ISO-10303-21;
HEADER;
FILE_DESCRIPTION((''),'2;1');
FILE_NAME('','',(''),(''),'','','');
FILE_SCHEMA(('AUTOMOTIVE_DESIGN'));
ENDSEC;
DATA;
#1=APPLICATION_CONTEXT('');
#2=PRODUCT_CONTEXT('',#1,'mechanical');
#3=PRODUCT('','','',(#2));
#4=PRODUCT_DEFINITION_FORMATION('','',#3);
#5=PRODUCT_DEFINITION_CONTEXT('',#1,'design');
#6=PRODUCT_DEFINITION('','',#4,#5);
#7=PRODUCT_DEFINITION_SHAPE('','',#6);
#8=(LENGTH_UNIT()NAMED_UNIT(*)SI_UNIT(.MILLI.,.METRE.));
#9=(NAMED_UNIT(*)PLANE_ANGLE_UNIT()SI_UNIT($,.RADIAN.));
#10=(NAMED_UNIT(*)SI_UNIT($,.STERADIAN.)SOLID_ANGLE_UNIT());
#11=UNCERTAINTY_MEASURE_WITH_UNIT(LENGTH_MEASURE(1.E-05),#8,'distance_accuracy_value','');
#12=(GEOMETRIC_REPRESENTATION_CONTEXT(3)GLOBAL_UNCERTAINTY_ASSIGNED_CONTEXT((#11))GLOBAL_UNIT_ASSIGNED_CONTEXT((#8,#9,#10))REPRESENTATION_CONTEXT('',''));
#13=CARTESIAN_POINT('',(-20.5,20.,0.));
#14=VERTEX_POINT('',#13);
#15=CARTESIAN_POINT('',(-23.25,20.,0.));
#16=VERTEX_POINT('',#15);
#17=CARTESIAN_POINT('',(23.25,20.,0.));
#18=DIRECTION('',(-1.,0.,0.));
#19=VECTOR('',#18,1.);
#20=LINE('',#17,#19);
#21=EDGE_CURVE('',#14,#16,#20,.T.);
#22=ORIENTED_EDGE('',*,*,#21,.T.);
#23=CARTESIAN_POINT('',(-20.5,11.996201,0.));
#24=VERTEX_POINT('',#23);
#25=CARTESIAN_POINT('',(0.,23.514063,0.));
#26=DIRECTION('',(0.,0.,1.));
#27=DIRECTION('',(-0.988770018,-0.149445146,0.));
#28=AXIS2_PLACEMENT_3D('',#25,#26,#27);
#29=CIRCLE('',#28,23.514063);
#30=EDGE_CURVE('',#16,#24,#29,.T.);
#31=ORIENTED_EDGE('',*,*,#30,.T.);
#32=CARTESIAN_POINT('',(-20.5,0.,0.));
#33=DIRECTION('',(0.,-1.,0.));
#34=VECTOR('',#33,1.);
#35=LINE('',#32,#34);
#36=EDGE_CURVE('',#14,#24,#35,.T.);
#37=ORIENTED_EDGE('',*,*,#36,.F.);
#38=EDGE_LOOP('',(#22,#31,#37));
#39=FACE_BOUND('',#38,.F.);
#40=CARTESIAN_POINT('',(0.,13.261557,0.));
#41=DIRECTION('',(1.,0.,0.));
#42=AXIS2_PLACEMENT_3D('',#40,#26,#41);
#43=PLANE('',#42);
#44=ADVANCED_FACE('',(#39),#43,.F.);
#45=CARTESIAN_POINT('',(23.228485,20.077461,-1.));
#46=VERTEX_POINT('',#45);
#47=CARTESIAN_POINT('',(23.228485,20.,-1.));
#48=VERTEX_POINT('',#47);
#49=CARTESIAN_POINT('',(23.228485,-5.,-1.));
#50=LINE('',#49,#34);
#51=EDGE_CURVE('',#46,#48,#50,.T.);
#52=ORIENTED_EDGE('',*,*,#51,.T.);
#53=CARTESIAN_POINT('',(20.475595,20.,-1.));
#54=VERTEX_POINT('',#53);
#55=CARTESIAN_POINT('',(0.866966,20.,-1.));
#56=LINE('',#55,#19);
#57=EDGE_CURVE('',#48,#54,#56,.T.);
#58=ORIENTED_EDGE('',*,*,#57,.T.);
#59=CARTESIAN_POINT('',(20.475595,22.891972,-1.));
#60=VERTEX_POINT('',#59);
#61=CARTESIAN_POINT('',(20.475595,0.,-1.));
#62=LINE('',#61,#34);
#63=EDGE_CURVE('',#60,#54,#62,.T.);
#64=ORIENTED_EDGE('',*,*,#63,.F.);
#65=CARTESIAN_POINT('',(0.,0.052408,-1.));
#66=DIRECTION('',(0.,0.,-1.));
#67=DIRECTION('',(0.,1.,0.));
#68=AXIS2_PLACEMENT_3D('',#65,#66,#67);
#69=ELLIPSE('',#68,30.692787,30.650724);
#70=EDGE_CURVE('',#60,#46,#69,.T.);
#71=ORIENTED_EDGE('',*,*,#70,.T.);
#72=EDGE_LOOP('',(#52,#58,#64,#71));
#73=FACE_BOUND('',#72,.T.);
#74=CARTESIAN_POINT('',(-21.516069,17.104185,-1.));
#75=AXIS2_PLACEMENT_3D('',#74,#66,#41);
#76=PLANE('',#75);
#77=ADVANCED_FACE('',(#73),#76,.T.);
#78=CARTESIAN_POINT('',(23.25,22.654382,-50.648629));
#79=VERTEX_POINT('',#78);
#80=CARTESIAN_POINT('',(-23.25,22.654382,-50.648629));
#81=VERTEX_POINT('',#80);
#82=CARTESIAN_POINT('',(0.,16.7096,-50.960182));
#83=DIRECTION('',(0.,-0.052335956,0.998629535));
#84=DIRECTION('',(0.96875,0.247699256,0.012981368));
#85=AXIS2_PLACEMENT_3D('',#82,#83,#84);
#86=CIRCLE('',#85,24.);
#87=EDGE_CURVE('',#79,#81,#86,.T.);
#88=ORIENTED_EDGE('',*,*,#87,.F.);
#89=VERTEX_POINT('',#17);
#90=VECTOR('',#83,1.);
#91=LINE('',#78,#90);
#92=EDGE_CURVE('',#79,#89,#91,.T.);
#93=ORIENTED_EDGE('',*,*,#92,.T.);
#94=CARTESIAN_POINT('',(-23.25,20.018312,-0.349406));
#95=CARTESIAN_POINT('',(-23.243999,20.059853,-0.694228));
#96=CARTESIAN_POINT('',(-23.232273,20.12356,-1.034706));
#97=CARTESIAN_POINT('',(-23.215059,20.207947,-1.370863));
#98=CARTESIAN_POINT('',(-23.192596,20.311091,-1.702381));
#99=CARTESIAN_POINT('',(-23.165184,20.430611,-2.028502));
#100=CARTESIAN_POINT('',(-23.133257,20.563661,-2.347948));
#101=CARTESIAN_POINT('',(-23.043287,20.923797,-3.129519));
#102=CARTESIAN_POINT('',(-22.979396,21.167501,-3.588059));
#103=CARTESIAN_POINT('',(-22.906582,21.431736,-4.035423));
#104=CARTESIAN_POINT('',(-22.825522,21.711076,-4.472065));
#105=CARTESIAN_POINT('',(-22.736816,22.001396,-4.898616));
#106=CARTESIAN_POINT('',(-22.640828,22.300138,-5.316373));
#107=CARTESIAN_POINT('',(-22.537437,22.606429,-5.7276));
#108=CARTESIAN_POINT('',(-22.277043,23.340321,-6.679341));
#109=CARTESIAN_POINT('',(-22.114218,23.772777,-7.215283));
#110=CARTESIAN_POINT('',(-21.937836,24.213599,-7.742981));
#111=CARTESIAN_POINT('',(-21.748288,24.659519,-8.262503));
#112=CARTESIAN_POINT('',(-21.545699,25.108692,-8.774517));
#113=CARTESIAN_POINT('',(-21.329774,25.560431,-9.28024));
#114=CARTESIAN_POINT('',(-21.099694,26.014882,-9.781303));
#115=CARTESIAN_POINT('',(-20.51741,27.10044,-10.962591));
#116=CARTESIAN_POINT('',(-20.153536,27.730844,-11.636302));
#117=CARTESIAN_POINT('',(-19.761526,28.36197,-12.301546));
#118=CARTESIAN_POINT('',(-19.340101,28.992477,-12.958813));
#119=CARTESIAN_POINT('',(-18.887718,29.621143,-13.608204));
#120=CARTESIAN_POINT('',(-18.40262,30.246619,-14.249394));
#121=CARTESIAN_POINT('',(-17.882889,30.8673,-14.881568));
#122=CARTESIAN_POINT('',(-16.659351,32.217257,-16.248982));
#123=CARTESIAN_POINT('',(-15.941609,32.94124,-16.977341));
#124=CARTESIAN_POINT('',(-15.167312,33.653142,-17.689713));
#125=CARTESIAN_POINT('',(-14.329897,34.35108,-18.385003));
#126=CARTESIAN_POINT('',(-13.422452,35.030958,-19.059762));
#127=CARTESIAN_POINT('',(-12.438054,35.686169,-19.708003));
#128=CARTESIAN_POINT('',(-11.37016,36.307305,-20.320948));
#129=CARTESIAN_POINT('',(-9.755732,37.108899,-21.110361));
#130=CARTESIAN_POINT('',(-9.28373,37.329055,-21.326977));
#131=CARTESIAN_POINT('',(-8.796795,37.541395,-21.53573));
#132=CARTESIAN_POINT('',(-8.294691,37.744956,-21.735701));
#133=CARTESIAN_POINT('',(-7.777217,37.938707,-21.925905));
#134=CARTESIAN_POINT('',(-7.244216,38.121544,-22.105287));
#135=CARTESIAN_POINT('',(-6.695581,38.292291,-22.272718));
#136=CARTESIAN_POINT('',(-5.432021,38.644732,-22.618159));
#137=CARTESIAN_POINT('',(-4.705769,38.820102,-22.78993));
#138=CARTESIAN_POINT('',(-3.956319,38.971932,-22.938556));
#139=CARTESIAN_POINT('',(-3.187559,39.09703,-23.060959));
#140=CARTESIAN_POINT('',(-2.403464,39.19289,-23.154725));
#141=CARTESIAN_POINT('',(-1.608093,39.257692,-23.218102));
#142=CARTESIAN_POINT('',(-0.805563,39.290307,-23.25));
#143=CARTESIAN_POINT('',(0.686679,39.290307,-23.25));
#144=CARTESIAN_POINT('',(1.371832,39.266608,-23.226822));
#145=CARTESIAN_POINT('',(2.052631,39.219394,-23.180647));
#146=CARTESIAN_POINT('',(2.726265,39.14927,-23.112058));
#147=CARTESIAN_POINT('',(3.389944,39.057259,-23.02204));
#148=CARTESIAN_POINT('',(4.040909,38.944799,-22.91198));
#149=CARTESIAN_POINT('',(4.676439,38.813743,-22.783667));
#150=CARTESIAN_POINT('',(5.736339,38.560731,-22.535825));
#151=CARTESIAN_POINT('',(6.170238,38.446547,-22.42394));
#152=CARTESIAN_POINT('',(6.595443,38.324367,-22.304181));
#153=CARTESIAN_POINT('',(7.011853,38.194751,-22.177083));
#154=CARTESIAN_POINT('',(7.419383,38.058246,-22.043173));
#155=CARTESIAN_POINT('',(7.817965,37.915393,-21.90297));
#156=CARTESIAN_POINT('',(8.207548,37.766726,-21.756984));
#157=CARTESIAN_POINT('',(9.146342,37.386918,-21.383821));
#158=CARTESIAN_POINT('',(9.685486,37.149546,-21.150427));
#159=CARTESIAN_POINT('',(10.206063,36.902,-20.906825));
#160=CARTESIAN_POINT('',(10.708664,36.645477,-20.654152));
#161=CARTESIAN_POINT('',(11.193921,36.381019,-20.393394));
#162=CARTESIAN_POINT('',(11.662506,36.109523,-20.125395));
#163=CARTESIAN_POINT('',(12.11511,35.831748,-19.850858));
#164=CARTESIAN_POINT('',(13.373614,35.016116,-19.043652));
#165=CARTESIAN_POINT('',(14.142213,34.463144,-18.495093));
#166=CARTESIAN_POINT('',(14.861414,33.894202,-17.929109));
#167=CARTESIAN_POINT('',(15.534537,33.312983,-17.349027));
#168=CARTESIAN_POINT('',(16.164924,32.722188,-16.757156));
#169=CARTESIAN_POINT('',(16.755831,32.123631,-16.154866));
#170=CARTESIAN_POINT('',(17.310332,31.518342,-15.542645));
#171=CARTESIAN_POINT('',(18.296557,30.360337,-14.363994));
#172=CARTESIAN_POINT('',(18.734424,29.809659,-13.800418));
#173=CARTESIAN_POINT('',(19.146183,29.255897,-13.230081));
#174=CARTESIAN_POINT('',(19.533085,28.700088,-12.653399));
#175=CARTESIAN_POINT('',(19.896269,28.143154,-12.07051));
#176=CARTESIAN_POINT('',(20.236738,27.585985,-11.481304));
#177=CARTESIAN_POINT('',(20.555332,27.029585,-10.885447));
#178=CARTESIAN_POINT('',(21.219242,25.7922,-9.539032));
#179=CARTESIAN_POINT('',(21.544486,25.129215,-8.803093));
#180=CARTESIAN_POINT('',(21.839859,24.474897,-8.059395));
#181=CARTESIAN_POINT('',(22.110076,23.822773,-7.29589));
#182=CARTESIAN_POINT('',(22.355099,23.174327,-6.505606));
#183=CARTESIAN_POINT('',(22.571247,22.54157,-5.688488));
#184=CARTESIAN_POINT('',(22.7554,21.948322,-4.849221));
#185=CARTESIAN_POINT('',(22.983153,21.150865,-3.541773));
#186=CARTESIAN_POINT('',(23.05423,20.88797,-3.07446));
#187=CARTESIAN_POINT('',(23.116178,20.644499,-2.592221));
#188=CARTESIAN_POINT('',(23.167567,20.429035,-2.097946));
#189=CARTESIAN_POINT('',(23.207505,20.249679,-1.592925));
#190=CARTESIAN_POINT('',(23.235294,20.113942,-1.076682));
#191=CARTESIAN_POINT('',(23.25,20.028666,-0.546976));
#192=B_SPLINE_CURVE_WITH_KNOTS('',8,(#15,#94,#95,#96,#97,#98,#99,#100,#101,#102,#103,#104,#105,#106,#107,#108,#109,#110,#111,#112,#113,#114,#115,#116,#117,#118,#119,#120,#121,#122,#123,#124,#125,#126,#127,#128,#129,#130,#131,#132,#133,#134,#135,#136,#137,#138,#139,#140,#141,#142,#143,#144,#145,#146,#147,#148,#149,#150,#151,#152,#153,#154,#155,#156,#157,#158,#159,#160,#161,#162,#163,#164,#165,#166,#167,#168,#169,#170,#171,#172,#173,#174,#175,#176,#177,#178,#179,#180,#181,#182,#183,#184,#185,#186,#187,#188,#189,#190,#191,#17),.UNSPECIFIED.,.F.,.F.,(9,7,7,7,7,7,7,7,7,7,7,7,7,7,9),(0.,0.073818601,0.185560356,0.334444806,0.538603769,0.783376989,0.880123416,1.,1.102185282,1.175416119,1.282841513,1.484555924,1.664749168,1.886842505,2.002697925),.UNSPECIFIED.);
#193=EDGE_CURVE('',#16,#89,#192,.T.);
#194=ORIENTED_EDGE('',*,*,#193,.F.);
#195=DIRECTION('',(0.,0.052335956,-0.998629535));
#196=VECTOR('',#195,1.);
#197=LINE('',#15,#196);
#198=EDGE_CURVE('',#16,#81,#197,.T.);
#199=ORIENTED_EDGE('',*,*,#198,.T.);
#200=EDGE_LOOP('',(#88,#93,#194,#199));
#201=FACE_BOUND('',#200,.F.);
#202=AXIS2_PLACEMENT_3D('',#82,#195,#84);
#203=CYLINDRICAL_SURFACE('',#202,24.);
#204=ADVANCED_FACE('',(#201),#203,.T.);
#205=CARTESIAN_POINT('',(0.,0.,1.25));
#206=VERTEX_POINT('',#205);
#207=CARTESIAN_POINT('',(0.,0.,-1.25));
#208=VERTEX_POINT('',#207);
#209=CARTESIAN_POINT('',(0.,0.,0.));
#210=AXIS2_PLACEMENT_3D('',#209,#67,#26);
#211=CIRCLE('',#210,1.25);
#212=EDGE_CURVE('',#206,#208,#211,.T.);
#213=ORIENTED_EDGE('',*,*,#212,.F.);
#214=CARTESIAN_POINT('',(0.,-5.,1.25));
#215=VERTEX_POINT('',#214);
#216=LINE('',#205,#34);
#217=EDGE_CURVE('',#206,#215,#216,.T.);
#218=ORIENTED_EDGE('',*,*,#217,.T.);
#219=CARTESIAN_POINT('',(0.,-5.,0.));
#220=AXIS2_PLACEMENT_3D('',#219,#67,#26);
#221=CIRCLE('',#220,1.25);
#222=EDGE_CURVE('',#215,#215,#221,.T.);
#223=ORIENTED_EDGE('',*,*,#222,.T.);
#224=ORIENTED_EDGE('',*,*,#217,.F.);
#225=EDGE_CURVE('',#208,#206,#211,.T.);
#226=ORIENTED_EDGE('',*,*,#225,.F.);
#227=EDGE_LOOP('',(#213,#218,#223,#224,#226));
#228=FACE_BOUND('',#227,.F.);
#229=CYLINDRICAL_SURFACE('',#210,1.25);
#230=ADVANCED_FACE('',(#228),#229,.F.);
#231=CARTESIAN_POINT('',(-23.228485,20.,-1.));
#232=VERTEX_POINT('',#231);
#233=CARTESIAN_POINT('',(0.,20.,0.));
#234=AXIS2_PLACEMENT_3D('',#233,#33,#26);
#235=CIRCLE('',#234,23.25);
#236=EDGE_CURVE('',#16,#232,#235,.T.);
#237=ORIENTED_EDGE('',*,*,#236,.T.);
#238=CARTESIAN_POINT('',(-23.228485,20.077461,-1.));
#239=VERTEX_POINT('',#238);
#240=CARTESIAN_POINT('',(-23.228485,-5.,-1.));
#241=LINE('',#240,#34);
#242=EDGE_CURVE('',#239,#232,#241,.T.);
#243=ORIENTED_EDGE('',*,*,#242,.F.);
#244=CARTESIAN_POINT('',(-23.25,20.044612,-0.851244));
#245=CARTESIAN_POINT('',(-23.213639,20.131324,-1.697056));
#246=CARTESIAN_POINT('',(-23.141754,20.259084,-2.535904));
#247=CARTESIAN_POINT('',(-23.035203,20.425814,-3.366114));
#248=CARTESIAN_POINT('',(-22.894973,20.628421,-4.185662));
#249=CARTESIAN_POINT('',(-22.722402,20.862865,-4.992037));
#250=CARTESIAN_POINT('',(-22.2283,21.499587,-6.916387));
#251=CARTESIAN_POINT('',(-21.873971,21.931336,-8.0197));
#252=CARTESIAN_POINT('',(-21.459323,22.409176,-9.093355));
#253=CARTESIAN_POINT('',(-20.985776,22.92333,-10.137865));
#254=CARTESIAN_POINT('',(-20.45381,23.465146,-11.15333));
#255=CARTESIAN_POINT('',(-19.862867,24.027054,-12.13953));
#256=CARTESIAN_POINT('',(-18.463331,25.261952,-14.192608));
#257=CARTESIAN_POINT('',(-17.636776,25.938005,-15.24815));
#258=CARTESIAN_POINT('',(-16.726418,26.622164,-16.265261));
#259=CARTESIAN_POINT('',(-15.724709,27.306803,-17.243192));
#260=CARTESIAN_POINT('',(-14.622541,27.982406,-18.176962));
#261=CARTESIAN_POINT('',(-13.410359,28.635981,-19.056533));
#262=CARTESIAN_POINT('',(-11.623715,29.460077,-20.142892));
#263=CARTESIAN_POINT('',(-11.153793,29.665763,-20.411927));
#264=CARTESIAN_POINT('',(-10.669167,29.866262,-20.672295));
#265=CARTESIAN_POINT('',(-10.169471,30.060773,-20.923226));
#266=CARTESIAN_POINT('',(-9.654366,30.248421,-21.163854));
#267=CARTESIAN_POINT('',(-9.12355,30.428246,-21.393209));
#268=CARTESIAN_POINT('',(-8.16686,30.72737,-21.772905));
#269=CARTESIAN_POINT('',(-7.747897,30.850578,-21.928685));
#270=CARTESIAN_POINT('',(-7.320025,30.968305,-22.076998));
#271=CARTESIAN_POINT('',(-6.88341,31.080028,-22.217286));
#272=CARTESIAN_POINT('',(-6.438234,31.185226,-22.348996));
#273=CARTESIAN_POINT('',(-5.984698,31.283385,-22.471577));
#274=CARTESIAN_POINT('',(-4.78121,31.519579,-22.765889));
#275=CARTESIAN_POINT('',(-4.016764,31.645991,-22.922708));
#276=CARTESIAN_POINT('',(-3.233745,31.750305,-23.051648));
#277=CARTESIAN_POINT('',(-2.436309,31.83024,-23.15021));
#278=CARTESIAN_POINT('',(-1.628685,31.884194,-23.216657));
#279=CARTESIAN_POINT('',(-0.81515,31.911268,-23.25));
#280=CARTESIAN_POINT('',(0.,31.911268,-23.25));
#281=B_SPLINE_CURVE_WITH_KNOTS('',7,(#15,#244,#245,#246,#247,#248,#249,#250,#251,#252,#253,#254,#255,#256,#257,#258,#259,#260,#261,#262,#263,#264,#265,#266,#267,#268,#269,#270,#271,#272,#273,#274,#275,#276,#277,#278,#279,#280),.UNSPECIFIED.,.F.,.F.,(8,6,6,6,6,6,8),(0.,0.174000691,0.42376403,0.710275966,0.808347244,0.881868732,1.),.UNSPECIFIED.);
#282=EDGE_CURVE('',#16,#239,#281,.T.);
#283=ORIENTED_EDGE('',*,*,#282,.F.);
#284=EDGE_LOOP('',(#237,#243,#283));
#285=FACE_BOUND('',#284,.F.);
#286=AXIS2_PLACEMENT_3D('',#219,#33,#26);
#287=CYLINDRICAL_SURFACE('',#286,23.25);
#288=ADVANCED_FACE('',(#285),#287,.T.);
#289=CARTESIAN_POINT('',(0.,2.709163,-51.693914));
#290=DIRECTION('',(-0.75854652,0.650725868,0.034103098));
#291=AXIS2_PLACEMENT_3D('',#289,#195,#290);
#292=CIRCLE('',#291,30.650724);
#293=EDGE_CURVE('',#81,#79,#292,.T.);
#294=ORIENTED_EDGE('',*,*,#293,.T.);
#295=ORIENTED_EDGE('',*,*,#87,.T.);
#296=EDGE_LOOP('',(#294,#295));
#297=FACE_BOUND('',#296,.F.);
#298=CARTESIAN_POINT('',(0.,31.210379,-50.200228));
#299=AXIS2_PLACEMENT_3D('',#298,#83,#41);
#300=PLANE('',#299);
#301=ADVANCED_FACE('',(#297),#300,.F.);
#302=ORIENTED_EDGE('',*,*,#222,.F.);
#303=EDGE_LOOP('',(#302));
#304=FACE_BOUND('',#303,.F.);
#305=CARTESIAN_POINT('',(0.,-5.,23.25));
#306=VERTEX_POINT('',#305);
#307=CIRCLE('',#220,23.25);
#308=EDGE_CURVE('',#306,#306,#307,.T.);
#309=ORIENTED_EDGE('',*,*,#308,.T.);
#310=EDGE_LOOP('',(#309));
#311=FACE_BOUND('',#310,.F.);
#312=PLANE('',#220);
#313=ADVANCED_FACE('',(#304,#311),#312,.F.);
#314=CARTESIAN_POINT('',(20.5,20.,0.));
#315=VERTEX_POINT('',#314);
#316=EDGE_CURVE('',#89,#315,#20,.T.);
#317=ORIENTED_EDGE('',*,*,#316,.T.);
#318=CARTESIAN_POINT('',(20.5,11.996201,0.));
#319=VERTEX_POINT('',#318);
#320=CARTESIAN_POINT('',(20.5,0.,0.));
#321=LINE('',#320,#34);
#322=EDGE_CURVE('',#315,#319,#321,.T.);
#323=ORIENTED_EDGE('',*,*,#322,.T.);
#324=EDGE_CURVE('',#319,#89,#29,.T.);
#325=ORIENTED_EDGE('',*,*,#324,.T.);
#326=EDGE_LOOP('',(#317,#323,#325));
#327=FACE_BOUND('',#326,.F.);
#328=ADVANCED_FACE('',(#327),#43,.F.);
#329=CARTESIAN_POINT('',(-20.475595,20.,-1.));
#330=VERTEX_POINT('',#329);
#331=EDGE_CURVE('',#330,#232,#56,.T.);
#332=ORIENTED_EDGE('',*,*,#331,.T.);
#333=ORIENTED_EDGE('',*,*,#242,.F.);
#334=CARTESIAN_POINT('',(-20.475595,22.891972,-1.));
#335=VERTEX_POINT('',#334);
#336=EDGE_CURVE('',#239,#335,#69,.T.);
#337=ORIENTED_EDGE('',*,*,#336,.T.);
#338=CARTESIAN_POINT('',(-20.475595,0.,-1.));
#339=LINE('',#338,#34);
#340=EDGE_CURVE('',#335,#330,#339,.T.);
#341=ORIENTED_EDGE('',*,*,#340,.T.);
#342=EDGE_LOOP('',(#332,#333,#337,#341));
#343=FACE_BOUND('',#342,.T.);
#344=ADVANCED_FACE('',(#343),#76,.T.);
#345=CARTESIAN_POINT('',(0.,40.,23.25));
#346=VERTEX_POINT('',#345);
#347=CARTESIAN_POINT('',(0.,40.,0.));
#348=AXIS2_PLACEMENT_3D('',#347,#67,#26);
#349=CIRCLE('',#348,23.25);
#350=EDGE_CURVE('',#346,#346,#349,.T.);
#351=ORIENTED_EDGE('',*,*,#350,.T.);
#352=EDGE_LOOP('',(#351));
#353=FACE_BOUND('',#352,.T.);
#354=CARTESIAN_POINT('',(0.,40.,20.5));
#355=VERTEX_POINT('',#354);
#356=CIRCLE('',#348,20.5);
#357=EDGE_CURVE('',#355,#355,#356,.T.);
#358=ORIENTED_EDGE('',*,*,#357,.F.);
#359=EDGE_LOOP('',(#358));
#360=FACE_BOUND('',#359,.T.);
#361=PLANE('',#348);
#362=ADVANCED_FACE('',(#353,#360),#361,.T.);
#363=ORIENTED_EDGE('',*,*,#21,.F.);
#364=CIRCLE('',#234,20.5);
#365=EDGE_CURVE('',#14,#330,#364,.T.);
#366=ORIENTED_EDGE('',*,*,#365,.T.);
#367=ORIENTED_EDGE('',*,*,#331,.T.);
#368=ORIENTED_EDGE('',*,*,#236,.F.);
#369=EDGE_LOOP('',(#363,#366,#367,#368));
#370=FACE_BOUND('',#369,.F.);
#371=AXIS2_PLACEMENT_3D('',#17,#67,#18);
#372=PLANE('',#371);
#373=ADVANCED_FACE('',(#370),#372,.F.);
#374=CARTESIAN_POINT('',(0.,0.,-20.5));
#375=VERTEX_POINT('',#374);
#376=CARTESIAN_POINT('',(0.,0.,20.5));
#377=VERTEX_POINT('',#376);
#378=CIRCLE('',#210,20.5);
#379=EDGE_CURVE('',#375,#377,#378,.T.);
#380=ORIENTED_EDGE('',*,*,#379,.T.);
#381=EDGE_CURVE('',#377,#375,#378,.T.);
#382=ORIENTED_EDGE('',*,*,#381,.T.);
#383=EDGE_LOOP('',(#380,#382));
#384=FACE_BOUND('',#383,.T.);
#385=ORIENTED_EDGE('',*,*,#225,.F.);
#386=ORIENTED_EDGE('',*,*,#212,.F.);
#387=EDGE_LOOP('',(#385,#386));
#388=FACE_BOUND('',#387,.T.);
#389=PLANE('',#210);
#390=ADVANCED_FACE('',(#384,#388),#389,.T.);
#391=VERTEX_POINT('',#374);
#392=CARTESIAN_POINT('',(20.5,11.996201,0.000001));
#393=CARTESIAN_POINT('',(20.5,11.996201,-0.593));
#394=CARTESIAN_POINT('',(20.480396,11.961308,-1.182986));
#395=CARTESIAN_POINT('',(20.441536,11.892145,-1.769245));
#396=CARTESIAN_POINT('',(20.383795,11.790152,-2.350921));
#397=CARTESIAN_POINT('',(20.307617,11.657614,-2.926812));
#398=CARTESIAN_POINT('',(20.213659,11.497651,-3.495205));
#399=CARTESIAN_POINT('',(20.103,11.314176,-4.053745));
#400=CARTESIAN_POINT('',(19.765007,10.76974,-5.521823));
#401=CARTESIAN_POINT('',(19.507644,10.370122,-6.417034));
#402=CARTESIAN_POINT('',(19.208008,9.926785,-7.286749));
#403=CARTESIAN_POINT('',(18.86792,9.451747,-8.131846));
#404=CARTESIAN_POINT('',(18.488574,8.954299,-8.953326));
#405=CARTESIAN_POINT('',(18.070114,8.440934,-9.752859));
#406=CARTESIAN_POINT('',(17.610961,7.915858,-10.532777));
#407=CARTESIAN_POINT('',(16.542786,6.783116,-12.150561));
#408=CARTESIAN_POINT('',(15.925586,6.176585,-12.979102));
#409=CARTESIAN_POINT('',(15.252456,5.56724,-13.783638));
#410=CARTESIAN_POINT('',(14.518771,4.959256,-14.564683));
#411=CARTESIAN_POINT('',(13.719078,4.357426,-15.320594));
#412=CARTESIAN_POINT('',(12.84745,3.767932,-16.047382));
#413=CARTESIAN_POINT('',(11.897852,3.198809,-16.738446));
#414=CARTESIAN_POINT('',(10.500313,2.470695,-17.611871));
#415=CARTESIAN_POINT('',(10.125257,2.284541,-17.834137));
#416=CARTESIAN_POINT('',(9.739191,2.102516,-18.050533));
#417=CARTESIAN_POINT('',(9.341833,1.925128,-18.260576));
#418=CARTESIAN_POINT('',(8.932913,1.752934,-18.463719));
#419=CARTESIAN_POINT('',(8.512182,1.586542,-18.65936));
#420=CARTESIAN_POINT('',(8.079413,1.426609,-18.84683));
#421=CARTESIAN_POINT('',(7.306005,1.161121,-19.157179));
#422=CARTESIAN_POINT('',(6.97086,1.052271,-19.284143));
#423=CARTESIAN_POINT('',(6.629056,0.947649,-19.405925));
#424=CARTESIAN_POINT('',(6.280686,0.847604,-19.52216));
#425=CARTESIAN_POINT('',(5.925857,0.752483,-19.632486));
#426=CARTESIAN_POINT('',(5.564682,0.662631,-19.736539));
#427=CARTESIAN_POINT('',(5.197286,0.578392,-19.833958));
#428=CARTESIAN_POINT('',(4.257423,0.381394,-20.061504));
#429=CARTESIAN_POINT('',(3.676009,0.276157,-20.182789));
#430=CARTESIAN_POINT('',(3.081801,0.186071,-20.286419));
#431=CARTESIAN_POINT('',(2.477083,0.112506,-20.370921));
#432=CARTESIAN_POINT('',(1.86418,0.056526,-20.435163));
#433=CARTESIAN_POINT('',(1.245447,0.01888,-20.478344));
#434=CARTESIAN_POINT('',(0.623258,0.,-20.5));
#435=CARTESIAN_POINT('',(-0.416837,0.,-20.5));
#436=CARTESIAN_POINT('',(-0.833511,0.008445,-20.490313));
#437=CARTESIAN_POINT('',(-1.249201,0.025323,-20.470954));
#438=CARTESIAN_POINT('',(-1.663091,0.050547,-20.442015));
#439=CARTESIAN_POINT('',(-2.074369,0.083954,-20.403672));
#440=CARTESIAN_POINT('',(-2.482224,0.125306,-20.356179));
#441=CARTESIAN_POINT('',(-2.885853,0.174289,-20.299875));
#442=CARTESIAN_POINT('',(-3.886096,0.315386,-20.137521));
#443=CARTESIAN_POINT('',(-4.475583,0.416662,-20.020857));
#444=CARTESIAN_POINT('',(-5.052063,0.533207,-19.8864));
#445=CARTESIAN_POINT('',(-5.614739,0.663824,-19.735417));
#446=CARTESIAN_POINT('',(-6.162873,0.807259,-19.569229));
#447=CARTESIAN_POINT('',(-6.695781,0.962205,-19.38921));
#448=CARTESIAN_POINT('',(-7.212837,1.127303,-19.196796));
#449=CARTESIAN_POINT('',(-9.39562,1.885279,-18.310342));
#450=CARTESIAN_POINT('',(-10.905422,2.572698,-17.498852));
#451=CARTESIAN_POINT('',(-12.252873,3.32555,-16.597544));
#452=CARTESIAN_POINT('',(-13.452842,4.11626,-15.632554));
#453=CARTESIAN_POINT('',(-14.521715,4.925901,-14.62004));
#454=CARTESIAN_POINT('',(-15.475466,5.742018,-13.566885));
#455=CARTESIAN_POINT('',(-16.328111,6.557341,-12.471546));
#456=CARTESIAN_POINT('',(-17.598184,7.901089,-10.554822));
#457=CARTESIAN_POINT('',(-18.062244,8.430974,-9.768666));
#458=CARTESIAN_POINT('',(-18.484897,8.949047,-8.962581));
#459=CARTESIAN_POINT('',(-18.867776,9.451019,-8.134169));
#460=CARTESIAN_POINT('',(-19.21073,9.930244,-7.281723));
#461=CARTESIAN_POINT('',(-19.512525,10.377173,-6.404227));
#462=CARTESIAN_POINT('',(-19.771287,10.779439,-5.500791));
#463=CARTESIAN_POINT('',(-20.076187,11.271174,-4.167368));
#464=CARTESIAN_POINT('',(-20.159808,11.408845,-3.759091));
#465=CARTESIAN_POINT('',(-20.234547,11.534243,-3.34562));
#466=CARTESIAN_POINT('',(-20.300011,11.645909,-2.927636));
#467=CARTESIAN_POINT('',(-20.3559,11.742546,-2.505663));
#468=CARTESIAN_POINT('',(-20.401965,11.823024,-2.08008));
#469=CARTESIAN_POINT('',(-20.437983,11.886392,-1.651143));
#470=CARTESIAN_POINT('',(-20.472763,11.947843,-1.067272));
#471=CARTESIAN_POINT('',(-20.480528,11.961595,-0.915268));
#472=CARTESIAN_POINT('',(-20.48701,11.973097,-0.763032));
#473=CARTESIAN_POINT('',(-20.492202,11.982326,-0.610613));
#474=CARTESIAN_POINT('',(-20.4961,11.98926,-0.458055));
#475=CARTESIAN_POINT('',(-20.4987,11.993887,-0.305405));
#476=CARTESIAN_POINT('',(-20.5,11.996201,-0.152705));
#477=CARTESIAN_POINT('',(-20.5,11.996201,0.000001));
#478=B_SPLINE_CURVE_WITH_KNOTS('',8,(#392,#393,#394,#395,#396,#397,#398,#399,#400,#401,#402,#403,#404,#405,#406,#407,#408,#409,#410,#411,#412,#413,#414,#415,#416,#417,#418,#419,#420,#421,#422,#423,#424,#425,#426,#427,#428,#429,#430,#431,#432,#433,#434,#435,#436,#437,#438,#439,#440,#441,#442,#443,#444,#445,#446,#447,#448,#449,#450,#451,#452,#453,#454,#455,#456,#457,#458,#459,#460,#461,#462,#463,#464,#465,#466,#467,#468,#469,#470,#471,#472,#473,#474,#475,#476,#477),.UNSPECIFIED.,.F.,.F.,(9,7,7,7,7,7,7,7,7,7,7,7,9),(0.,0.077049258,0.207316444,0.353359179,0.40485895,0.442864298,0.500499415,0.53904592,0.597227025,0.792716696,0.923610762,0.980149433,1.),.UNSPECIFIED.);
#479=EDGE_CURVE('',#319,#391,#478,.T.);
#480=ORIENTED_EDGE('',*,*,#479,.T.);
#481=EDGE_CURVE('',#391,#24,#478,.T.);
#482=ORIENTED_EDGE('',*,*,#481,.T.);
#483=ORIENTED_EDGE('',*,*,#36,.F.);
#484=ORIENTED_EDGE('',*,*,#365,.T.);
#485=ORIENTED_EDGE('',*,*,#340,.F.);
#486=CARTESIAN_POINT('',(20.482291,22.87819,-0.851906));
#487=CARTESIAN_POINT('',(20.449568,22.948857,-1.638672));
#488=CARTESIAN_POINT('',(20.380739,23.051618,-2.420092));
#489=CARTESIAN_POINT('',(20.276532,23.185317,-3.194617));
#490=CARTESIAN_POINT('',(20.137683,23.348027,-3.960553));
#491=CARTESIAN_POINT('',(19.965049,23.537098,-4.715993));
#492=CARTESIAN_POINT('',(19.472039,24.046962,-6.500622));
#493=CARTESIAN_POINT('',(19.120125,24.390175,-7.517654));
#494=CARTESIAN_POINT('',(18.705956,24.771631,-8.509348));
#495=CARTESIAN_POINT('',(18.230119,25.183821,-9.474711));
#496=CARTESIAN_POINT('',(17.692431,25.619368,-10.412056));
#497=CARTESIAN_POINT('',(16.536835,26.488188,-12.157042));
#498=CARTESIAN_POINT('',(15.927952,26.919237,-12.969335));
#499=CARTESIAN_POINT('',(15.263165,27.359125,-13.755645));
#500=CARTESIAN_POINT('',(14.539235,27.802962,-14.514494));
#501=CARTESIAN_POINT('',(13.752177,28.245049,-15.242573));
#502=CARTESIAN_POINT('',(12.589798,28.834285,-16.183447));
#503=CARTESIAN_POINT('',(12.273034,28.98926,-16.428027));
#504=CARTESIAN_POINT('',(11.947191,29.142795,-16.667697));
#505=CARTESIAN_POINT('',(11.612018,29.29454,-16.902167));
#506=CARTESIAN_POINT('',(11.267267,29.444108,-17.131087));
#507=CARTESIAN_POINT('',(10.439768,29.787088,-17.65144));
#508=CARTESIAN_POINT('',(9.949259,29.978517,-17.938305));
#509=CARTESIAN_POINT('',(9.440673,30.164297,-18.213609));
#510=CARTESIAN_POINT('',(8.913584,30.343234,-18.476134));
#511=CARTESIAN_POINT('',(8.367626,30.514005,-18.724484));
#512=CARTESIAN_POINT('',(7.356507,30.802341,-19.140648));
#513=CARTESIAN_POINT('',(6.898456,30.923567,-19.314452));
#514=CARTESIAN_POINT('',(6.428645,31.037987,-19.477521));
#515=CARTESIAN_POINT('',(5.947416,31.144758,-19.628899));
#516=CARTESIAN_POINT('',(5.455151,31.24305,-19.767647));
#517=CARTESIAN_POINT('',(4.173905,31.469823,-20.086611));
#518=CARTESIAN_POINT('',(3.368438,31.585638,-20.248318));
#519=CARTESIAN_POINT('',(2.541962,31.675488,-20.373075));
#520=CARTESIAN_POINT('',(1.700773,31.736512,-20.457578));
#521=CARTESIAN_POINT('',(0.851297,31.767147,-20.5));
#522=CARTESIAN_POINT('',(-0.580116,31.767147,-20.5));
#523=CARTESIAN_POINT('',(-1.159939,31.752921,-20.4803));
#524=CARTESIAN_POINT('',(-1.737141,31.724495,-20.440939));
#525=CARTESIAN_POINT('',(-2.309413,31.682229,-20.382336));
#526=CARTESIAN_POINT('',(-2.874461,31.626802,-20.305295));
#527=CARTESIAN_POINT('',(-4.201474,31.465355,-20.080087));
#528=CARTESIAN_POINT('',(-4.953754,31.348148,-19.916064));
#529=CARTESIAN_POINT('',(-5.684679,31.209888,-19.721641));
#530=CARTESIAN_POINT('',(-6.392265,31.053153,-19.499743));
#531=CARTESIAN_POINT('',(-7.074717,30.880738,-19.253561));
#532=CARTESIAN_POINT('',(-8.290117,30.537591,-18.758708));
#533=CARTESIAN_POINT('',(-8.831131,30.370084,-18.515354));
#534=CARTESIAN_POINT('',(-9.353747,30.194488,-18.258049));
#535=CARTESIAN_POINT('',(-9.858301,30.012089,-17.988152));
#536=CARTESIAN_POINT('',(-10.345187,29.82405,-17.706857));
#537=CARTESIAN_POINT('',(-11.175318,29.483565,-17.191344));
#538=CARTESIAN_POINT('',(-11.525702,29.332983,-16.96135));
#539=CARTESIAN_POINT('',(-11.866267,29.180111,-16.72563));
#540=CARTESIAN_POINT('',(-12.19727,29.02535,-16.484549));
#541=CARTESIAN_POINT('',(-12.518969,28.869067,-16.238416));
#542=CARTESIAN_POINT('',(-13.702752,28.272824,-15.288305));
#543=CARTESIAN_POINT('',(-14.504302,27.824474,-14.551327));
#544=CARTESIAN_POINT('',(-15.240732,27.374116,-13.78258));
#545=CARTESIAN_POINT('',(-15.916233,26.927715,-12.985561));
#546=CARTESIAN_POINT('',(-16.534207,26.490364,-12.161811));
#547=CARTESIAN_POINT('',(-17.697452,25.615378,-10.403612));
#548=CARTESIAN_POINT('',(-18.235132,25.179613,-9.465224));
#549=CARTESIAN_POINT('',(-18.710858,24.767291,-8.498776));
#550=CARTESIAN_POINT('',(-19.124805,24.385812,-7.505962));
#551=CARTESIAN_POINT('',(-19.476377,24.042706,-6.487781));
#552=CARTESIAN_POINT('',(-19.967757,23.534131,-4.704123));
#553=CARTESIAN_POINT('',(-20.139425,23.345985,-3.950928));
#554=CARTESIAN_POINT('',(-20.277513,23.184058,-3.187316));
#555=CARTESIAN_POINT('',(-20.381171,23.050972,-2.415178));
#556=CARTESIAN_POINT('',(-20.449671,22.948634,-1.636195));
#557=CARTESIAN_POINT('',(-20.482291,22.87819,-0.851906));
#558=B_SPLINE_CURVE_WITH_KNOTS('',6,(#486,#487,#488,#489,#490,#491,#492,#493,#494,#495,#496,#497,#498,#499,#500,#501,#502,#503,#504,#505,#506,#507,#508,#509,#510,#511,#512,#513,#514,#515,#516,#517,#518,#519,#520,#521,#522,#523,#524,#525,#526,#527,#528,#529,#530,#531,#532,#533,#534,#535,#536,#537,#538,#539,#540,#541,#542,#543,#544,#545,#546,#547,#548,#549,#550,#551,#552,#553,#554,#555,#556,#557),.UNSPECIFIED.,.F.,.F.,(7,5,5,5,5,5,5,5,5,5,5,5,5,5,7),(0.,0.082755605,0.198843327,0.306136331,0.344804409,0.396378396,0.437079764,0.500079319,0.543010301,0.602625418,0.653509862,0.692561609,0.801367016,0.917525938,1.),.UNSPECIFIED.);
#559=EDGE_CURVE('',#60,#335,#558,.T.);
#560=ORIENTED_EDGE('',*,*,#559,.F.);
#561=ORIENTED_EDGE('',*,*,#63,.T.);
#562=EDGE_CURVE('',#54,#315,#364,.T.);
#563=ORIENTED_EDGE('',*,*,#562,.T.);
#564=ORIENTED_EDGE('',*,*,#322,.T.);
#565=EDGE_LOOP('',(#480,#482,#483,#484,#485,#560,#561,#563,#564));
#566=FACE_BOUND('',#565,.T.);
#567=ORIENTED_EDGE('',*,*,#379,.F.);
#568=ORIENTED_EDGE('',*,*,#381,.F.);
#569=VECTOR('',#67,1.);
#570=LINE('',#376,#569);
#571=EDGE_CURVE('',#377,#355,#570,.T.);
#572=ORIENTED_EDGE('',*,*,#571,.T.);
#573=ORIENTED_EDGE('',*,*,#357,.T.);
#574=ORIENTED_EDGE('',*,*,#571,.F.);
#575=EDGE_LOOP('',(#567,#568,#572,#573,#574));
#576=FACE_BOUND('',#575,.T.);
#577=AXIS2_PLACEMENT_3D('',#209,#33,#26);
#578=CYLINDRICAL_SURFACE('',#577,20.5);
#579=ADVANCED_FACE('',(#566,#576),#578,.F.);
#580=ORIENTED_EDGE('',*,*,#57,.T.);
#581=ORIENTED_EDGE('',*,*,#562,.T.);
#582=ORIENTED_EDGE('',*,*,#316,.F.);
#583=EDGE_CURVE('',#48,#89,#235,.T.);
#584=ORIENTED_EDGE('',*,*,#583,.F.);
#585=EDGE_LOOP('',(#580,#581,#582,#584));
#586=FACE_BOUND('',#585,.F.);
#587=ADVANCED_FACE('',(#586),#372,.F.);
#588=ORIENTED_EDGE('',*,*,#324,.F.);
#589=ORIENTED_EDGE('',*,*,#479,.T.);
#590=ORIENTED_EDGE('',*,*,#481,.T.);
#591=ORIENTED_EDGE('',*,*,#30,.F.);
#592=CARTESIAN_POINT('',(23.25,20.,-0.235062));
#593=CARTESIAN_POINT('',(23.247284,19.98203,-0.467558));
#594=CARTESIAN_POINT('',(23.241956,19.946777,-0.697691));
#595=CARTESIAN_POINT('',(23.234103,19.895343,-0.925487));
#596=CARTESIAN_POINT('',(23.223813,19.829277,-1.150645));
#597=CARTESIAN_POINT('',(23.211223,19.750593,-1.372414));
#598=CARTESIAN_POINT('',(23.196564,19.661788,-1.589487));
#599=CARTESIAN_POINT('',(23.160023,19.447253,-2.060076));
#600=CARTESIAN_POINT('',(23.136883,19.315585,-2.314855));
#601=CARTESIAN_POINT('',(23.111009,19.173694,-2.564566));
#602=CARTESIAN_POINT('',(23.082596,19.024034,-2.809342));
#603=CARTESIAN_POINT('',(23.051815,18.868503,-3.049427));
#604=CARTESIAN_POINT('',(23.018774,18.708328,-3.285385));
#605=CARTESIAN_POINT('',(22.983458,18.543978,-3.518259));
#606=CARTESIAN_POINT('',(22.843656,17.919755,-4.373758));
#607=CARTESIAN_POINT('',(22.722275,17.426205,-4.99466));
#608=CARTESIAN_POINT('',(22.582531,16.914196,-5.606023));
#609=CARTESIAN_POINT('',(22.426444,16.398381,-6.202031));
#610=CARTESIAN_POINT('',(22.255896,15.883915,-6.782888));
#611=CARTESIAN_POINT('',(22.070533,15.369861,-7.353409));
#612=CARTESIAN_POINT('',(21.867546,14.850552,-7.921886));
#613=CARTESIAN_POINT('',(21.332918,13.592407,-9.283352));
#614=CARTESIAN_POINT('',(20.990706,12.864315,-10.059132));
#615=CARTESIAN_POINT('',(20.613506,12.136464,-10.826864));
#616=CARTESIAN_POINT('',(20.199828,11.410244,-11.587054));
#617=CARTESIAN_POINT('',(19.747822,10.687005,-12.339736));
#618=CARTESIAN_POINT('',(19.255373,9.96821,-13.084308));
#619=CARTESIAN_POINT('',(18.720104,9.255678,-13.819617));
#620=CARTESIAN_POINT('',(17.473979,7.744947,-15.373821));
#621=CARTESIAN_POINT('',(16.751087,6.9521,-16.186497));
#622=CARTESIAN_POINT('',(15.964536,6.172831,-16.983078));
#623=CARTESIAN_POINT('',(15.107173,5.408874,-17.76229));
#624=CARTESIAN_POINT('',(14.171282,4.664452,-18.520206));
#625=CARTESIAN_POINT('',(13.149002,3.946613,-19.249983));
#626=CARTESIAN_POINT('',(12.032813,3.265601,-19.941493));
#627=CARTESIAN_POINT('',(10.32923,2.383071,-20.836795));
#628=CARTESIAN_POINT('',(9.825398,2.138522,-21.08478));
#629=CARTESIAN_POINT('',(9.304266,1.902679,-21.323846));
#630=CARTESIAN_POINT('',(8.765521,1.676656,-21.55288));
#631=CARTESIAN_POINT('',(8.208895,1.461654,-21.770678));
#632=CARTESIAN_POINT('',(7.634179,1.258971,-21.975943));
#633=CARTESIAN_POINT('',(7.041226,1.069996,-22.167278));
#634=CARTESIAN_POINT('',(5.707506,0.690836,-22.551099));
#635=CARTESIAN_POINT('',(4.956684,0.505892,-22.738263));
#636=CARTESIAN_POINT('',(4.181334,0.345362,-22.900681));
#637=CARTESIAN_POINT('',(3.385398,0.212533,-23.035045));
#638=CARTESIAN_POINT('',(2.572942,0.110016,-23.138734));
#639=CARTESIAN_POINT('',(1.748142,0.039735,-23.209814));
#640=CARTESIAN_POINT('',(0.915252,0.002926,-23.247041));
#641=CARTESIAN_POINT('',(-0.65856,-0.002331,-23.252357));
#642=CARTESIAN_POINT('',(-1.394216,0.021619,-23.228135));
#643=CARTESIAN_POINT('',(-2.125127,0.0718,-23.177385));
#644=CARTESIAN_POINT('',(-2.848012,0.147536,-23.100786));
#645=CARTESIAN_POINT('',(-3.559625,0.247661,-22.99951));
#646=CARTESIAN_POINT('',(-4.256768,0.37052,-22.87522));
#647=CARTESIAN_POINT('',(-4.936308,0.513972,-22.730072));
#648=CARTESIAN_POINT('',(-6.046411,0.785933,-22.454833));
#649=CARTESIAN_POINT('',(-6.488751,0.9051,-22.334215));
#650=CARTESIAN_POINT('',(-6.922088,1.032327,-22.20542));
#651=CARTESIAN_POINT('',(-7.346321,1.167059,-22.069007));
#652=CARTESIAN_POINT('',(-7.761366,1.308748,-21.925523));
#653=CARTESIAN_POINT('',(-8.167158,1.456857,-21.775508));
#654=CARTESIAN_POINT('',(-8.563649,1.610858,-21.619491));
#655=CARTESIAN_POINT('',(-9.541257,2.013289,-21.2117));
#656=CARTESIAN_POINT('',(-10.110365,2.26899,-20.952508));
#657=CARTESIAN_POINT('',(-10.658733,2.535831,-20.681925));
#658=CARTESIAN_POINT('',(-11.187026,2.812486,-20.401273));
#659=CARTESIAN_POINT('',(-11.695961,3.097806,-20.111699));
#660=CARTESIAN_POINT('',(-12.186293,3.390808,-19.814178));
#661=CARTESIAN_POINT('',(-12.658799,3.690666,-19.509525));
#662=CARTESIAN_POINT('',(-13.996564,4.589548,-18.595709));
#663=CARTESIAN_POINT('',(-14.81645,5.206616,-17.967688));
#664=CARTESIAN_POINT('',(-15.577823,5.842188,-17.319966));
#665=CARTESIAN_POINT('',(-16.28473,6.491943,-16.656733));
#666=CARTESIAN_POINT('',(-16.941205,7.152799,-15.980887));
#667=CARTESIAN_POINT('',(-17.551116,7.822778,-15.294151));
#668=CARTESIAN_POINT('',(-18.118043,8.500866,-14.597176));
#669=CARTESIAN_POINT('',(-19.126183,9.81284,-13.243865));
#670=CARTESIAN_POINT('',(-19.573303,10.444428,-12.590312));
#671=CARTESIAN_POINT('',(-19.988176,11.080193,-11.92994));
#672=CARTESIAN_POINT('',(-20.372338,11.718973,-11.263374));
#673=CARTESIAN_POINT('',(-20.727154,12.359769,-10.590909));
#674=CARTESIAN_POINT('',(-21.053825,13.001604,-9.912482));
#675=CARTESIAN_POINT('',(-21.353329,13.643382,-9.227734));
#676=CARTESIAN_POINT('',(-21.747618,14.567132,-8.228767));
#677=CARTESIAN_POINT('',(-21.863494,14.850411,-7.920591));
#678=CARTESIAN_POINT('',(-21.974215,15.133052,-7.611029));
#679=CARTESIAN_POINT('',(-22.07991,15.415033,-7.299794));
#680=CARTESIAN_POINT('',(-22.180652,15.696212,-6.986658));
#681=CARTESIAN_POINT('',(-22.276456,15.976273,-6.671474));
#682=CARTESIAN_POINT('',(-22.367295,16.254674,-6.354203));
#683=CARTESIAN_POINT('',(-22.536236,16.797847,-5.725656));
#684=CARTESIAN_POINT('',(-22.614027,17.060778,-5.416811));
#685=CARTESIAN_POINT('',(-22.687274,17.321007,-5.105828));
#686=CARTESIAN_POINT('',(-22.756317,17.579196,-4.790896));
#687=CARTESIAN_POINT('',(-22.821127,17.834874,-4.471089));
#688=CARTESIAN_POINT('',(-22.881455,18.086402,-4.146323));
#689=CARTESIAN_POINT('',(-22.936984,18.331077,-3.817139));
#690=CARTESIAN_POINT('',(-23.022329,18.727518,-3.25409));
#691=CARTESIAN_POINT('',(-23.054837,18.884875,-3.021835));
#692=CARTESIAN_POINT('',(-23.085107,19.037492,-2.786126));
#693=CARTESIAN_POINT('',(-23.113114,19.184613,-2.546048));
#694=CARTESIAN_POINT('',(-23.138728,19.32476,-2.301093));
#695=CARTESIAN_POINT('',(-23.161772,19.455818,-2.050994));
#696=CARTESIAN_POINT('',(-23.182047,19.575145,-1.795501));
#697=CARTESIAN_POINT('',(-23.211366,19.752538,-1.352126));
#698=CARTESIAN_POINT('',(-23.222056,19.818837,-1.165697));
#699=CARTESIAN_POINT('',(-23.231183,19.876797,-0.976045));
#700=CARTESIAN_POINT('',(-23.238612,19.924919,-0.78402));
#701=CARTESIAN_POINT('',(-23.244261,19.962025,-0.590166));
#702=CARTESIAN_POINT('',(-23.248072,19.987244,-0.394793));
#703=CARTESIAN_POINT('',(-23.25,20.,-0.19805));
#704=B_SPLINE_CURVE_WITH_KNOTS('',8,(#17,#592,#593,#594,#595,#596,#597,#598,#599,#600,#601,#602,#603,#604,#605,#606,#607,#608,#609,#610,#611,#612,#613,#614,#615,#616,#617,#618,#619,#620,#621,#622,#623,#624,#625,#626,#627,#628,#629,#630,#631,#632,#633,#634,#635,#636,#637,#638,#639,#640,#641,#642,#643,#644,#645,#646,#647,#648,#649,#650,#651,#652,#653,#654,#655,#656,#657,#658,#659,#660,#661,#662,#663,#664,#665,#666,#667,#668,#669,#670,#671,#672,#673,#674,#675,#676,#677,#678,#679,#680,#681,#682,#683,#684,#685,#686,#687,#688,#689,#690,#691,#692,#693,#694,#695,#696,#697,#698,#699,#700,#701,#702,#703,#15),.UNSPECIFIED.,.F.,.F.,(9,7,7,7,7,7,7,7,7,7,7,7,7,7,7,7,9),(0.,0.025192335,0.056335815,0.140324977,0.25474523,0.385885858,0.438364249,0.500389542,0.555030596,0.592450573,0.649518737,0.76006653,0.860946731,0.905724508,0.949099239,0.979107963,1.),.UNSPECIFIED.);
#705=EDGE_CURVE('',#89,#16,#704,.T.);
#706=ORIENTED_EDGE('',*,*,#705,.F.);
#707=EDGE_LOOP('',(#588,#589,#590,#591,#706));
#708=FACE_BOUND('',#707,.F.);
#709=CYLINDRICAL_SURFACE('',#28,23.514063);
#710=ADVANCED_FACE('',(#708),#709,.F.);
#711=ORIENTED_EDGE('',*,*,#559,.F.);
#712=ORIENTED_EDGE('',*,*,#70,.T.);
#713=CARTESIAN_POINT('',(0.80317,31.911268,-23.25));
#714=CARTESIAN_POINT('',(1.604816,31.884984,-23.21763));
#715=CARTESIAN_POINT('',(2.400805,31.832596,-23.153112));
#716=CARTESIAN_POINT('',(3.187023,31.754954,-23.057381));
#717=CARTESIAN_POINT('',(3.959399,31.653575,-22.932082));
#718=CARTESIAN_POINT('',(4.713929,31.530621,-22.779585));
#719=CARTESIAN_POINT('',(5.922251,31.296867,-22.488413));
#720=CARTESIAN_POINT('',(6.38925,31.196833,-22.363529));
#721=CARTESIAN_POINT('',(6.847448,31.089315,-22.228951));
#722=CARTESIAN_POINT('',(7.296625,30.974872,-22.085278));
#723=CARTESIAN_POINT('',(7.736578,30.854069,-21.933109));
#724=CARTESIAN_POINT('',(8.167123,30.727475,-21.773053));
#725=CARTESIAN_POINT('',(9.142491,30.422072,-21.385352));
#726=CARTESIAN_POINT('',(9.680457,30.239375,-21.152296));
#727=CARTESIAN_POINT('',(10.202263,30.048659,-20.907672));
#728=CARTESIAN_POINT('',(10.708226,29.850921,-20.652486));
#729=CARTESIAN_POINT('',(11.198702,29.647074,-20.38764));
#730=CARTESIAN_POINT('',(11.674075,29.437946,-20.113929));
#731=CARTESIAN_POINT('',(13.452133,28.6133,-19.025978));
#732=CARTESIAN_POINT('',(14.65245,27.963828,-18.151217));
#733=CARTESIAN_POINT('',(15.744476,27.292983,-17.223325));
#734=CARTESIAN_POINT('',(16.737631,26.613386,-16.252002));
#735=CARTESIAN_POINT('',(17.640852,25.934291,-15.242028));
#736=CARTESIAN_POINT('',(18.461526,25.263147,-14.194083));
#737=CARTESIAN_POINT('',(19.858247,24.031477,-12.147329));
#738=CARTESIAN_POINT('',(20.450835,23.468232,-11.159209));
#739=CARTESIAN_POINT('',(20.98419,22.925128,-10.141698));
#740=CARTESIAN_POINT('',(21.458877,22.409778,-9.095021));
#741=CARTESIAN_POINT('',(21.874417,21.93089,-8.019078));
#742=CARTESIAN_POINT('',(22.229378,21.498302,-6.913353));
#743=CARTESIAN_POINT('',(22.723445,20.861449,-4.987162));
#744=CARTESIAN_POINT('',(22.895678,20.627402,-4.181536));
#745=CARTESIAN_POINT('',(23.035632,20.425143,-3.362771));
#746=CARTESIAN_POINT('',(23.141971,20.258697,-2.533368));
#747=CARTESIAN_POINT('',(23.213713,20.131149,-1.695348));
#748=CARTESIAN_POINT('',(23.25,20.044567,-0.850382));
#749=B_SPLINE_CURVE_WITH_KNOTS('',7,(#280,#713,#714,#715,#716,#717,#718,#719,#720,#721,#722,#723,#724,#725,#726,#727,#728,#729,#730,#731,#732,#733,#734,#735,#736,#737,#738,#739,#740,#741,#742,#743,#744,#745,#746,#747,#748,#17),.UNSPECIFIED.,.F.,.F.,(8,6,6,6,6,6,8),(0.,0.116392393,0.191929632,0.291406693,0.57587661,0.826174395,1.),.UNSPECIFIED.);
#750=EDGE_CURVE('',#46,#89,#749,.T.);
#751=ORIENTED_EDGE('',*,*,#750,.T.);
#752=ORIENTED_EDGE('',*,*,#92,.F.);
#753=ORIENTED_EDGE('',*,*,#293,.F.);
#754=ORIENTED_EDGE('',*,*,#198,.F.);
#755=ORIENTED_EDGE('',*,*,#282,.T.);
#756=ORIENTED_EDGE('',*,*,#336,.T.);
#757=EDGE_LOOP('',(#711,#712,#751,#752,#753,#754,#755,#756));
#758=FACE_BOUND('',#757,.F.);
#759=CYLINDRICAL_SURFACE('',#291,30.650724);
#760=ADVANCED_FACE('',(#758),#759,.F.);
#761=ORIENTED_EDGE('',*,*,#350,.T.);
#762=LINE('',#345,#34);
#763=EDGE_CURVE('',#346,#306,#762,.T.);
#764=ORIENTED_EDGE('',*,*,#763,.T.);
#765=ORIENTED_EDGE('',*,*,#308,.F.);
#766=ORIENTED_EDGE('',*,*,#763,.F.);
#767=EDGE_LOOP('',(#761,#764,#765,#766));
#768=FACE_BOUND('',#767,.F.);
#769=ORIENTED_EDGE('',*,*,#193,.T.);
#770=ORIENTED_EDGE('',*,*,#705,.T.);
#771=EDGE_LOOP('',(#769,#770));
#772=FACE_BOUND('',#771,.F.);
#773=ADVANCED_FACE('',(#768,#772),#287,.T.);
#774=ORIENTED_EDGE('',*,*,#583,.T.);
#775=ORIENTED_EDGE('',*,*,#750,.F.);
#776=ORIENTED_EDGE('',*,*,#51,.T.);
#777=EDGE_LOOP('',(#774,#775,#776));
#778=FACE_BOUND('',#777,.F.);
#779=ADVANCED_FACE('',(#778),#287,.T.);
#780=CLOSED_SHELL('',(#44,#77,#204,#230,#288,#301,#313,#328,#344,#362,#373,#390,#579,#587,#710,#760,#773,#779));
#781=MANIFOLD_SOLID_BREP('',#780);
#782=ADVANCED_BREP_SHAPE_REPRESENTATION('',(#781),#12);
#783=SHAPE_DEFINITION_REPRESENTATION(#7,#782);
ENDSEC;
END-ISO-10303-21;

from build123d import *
from build123d.topology import SkipClean

# Parameters (mm, degrees)
SKETCH1_R                        = 23.25
SKETCH1_R_2                      = 20.5
BOSS_EXTRUDE1_DEPTH              = 40
BOSS_EXTRUDE2_START              = -5
SKETCH1_2_R                      = 23.25
SKETCH1_2_R_2                    = 20.5
BOSS_EXTRUDE2_DEPTH              = 5
CUT_EXTRUDE1_DEPTH               = 35
BOSS_EXTRUDE3_REACH              = 88.878
BOSS_EXTRUDE3_END_RADIUS         = 23.25
CUT_EXTRUDE5_REACH               = 90.17
CUT_EXTRUDE5_OFFSET_FROM_SURFACE = 1
SKETCH5_R                        = 1.25
CUT_EXTRUDE6_DEPTH               = 10


with BuildPart() as part:
    # Sketch1 → Boss-Extrude1 (new body)
    with BuildSketch(Plane(origin=(0, 0, 0), x_dir=(1, 0, 0), z_dir=(0, 1, 0))):
        with Locations(Location((0, 0, 0), (0, 0, 270))):
            Circle(SKETCH1_R)
        with Locations(Location((0, 0, 0), (0, 0, 270))):
            Circle(SKETCH1_R_2, mode=Mode.SUBTRACT)
    extrude(amount=BOSS_EXTRUDE1_DEPTH)

    # Sketch1<2> → Boss-Extrude2 (add)
    # profile 1 of 2: a face of its own
    with BuildSketch(Plane(origin=(0, 0, 0), x_dir=(1, 0, 0), z_dir=(0, 1, 0)).offset(BOSS_EXTRUDE2_START)):
        with Locations(Location((0, 0, 0), (0, 0, 270))):
            Circle(SKETCH1_2_R)
        with Locations(Location((0, 0, 0), (0, 0, 270))):
            Circle(SKETCH1_2_R_2, mode=Mode.SUBTRACT)
    # profile 2 of 2: a face of its own
    with BuildSketch(Plane(origin=(0, 0, 0), x_dir=(1, 0, 0), z_dir=(0, 1, 0)).offset(BOSS_EXTRUDE2_START)):
        with Locations(Location((0, 0, 0), (0, 0, 270))):
            Circle(SKETCH1_2_R_2)
    extrude(amount=BOSS_EXTRUDE2_DEPTH)

    # Sketch2 → Cut-Extrude1 (cut)
    with BuildSketch(Plane.XY):
        with BuildLine():
            Line((23.25, 20), (-23.25, 20))
            ThreePointArc((-23.25, 20), (0, 0), (23.25, 20))
        make_face()
    extrude(amount=-CUT_EXTRUDE1_DEPTH, mode=Mode.SUBTRACT)

    # Boss-Extrude3: up to this cylinder (the profile starts outside it)
    with SkipClean():  # the faces are left unmerged after this step: merging them gives an invalid solid
        boss_extrude3_end = Plane(origin=(0, 34.101155, 0), z_dir=(0, -1, 0)) * Cylinder(BOSS_EXTRUDE3_END_RADIUS, 225.256, mode=Mode.PRIVATE)
        # Sketch3 → Boss-Extrude3 (add, up to the surface)
        with BuildSketch(Plane(origin=(0, 2.709163228, -51.693913872), x_dir=(1, 0, 0), z_dir=(0, -0.05233595624294392, 0.998629534754574)), mode=Mode.PRIVATE) as boss_extrude3_sk1:
            with BuildLine():
                ThreePointArc((-23.25, 19.972590695), (0, 30.650723957), (23.25, 19.972590695))
                ThreePointArc((23.25, 19.972590695), (0, 38.019650245), (-23.25, 19.972590695))
            make_face()
        boss_extrude3_tool1 = extrude(boss_extrude3_sk1.sketch, amount=BOSS_EXTRUDE3_REACH, mode=Mode.PRIVATE) - boss_extrude3_end
        add(boss_extrude3_tool1.solids().sort_by_distance((0, 34.101155, -50.048729))[0])

    # Cut-Extrude5: up to this face of the body (flat: up to its plane, moved by the offset)
    cut_extrude5_end = Plane(part.part.faces().sort_by_distance((-21.516068689, 17.104184879, 0))[0]).offset(CUT_EXTRUDE5_OFFSET_FROM_SURFACE)
    # Sketch4 → Cut-Extrude5 (cut, up to the picked face)
    with BuildSketch(Plane(origin=(0, 2.709163228, -51.693913872), x_dir=(1, 0, 0), z_dir=(0, -0.05233595624294392, 0.998629534754574)), mode=Mode.PRIVATE) as cut_extrude5_sk1:
        with BuildLine():
            ThreePointArc((23.25, 19.972590695), (0, 30.650723957), (-23.25, 19.972590695))
            add(Edge.make_bspline(
                [(-23.25, 19.972590695), (-23.25, 18.755779712), (0, 18.755779712), (23.25, 18.755779712), (23.25, 19.972590695)],
                knots=[3.141592654, 3.141592654, 3.141592654, 4.71238898, 4.71238898, 6.283185307, 6.283185307, 6.283185307], degree=2, weights=[1, 0.707106781, 1, 0.707106781, 1]))
        make_face()
    cut_extrude5_tool1 = split(extrude(cut_extrude5_sk1.sketch, amount=CUT_EXTRUDE5_REACH, mode=Mode.PRIVATE), bisect_by=cut_extrude5_end, keep=Keep.BOTH, mode=Mode.PRIVATE)
    add(cut_extrude5_tool1.solids().sort_by(Axis((0, 26.436495, -50.450417), (0, -0.05233595624294392, 0.998629534754574)))[0], mode=Mode.SUBTRACT)

    # Sketch5 → Cut-Extrude6 (cut)
    with BuildSketch(Plane(origin=(0, 0, 0), x_dir=(1, 0, 0), z_dir=(0, 1, 0))):
        with Locations(Location((0, 0, 0), (0, 0, 270))):
            Circle(SKETCH5_R)
    extrude(amount=-CUT_EXTRUDE6_DEPTH, mode=Mode.SUBTRACT)


solid = part.part
